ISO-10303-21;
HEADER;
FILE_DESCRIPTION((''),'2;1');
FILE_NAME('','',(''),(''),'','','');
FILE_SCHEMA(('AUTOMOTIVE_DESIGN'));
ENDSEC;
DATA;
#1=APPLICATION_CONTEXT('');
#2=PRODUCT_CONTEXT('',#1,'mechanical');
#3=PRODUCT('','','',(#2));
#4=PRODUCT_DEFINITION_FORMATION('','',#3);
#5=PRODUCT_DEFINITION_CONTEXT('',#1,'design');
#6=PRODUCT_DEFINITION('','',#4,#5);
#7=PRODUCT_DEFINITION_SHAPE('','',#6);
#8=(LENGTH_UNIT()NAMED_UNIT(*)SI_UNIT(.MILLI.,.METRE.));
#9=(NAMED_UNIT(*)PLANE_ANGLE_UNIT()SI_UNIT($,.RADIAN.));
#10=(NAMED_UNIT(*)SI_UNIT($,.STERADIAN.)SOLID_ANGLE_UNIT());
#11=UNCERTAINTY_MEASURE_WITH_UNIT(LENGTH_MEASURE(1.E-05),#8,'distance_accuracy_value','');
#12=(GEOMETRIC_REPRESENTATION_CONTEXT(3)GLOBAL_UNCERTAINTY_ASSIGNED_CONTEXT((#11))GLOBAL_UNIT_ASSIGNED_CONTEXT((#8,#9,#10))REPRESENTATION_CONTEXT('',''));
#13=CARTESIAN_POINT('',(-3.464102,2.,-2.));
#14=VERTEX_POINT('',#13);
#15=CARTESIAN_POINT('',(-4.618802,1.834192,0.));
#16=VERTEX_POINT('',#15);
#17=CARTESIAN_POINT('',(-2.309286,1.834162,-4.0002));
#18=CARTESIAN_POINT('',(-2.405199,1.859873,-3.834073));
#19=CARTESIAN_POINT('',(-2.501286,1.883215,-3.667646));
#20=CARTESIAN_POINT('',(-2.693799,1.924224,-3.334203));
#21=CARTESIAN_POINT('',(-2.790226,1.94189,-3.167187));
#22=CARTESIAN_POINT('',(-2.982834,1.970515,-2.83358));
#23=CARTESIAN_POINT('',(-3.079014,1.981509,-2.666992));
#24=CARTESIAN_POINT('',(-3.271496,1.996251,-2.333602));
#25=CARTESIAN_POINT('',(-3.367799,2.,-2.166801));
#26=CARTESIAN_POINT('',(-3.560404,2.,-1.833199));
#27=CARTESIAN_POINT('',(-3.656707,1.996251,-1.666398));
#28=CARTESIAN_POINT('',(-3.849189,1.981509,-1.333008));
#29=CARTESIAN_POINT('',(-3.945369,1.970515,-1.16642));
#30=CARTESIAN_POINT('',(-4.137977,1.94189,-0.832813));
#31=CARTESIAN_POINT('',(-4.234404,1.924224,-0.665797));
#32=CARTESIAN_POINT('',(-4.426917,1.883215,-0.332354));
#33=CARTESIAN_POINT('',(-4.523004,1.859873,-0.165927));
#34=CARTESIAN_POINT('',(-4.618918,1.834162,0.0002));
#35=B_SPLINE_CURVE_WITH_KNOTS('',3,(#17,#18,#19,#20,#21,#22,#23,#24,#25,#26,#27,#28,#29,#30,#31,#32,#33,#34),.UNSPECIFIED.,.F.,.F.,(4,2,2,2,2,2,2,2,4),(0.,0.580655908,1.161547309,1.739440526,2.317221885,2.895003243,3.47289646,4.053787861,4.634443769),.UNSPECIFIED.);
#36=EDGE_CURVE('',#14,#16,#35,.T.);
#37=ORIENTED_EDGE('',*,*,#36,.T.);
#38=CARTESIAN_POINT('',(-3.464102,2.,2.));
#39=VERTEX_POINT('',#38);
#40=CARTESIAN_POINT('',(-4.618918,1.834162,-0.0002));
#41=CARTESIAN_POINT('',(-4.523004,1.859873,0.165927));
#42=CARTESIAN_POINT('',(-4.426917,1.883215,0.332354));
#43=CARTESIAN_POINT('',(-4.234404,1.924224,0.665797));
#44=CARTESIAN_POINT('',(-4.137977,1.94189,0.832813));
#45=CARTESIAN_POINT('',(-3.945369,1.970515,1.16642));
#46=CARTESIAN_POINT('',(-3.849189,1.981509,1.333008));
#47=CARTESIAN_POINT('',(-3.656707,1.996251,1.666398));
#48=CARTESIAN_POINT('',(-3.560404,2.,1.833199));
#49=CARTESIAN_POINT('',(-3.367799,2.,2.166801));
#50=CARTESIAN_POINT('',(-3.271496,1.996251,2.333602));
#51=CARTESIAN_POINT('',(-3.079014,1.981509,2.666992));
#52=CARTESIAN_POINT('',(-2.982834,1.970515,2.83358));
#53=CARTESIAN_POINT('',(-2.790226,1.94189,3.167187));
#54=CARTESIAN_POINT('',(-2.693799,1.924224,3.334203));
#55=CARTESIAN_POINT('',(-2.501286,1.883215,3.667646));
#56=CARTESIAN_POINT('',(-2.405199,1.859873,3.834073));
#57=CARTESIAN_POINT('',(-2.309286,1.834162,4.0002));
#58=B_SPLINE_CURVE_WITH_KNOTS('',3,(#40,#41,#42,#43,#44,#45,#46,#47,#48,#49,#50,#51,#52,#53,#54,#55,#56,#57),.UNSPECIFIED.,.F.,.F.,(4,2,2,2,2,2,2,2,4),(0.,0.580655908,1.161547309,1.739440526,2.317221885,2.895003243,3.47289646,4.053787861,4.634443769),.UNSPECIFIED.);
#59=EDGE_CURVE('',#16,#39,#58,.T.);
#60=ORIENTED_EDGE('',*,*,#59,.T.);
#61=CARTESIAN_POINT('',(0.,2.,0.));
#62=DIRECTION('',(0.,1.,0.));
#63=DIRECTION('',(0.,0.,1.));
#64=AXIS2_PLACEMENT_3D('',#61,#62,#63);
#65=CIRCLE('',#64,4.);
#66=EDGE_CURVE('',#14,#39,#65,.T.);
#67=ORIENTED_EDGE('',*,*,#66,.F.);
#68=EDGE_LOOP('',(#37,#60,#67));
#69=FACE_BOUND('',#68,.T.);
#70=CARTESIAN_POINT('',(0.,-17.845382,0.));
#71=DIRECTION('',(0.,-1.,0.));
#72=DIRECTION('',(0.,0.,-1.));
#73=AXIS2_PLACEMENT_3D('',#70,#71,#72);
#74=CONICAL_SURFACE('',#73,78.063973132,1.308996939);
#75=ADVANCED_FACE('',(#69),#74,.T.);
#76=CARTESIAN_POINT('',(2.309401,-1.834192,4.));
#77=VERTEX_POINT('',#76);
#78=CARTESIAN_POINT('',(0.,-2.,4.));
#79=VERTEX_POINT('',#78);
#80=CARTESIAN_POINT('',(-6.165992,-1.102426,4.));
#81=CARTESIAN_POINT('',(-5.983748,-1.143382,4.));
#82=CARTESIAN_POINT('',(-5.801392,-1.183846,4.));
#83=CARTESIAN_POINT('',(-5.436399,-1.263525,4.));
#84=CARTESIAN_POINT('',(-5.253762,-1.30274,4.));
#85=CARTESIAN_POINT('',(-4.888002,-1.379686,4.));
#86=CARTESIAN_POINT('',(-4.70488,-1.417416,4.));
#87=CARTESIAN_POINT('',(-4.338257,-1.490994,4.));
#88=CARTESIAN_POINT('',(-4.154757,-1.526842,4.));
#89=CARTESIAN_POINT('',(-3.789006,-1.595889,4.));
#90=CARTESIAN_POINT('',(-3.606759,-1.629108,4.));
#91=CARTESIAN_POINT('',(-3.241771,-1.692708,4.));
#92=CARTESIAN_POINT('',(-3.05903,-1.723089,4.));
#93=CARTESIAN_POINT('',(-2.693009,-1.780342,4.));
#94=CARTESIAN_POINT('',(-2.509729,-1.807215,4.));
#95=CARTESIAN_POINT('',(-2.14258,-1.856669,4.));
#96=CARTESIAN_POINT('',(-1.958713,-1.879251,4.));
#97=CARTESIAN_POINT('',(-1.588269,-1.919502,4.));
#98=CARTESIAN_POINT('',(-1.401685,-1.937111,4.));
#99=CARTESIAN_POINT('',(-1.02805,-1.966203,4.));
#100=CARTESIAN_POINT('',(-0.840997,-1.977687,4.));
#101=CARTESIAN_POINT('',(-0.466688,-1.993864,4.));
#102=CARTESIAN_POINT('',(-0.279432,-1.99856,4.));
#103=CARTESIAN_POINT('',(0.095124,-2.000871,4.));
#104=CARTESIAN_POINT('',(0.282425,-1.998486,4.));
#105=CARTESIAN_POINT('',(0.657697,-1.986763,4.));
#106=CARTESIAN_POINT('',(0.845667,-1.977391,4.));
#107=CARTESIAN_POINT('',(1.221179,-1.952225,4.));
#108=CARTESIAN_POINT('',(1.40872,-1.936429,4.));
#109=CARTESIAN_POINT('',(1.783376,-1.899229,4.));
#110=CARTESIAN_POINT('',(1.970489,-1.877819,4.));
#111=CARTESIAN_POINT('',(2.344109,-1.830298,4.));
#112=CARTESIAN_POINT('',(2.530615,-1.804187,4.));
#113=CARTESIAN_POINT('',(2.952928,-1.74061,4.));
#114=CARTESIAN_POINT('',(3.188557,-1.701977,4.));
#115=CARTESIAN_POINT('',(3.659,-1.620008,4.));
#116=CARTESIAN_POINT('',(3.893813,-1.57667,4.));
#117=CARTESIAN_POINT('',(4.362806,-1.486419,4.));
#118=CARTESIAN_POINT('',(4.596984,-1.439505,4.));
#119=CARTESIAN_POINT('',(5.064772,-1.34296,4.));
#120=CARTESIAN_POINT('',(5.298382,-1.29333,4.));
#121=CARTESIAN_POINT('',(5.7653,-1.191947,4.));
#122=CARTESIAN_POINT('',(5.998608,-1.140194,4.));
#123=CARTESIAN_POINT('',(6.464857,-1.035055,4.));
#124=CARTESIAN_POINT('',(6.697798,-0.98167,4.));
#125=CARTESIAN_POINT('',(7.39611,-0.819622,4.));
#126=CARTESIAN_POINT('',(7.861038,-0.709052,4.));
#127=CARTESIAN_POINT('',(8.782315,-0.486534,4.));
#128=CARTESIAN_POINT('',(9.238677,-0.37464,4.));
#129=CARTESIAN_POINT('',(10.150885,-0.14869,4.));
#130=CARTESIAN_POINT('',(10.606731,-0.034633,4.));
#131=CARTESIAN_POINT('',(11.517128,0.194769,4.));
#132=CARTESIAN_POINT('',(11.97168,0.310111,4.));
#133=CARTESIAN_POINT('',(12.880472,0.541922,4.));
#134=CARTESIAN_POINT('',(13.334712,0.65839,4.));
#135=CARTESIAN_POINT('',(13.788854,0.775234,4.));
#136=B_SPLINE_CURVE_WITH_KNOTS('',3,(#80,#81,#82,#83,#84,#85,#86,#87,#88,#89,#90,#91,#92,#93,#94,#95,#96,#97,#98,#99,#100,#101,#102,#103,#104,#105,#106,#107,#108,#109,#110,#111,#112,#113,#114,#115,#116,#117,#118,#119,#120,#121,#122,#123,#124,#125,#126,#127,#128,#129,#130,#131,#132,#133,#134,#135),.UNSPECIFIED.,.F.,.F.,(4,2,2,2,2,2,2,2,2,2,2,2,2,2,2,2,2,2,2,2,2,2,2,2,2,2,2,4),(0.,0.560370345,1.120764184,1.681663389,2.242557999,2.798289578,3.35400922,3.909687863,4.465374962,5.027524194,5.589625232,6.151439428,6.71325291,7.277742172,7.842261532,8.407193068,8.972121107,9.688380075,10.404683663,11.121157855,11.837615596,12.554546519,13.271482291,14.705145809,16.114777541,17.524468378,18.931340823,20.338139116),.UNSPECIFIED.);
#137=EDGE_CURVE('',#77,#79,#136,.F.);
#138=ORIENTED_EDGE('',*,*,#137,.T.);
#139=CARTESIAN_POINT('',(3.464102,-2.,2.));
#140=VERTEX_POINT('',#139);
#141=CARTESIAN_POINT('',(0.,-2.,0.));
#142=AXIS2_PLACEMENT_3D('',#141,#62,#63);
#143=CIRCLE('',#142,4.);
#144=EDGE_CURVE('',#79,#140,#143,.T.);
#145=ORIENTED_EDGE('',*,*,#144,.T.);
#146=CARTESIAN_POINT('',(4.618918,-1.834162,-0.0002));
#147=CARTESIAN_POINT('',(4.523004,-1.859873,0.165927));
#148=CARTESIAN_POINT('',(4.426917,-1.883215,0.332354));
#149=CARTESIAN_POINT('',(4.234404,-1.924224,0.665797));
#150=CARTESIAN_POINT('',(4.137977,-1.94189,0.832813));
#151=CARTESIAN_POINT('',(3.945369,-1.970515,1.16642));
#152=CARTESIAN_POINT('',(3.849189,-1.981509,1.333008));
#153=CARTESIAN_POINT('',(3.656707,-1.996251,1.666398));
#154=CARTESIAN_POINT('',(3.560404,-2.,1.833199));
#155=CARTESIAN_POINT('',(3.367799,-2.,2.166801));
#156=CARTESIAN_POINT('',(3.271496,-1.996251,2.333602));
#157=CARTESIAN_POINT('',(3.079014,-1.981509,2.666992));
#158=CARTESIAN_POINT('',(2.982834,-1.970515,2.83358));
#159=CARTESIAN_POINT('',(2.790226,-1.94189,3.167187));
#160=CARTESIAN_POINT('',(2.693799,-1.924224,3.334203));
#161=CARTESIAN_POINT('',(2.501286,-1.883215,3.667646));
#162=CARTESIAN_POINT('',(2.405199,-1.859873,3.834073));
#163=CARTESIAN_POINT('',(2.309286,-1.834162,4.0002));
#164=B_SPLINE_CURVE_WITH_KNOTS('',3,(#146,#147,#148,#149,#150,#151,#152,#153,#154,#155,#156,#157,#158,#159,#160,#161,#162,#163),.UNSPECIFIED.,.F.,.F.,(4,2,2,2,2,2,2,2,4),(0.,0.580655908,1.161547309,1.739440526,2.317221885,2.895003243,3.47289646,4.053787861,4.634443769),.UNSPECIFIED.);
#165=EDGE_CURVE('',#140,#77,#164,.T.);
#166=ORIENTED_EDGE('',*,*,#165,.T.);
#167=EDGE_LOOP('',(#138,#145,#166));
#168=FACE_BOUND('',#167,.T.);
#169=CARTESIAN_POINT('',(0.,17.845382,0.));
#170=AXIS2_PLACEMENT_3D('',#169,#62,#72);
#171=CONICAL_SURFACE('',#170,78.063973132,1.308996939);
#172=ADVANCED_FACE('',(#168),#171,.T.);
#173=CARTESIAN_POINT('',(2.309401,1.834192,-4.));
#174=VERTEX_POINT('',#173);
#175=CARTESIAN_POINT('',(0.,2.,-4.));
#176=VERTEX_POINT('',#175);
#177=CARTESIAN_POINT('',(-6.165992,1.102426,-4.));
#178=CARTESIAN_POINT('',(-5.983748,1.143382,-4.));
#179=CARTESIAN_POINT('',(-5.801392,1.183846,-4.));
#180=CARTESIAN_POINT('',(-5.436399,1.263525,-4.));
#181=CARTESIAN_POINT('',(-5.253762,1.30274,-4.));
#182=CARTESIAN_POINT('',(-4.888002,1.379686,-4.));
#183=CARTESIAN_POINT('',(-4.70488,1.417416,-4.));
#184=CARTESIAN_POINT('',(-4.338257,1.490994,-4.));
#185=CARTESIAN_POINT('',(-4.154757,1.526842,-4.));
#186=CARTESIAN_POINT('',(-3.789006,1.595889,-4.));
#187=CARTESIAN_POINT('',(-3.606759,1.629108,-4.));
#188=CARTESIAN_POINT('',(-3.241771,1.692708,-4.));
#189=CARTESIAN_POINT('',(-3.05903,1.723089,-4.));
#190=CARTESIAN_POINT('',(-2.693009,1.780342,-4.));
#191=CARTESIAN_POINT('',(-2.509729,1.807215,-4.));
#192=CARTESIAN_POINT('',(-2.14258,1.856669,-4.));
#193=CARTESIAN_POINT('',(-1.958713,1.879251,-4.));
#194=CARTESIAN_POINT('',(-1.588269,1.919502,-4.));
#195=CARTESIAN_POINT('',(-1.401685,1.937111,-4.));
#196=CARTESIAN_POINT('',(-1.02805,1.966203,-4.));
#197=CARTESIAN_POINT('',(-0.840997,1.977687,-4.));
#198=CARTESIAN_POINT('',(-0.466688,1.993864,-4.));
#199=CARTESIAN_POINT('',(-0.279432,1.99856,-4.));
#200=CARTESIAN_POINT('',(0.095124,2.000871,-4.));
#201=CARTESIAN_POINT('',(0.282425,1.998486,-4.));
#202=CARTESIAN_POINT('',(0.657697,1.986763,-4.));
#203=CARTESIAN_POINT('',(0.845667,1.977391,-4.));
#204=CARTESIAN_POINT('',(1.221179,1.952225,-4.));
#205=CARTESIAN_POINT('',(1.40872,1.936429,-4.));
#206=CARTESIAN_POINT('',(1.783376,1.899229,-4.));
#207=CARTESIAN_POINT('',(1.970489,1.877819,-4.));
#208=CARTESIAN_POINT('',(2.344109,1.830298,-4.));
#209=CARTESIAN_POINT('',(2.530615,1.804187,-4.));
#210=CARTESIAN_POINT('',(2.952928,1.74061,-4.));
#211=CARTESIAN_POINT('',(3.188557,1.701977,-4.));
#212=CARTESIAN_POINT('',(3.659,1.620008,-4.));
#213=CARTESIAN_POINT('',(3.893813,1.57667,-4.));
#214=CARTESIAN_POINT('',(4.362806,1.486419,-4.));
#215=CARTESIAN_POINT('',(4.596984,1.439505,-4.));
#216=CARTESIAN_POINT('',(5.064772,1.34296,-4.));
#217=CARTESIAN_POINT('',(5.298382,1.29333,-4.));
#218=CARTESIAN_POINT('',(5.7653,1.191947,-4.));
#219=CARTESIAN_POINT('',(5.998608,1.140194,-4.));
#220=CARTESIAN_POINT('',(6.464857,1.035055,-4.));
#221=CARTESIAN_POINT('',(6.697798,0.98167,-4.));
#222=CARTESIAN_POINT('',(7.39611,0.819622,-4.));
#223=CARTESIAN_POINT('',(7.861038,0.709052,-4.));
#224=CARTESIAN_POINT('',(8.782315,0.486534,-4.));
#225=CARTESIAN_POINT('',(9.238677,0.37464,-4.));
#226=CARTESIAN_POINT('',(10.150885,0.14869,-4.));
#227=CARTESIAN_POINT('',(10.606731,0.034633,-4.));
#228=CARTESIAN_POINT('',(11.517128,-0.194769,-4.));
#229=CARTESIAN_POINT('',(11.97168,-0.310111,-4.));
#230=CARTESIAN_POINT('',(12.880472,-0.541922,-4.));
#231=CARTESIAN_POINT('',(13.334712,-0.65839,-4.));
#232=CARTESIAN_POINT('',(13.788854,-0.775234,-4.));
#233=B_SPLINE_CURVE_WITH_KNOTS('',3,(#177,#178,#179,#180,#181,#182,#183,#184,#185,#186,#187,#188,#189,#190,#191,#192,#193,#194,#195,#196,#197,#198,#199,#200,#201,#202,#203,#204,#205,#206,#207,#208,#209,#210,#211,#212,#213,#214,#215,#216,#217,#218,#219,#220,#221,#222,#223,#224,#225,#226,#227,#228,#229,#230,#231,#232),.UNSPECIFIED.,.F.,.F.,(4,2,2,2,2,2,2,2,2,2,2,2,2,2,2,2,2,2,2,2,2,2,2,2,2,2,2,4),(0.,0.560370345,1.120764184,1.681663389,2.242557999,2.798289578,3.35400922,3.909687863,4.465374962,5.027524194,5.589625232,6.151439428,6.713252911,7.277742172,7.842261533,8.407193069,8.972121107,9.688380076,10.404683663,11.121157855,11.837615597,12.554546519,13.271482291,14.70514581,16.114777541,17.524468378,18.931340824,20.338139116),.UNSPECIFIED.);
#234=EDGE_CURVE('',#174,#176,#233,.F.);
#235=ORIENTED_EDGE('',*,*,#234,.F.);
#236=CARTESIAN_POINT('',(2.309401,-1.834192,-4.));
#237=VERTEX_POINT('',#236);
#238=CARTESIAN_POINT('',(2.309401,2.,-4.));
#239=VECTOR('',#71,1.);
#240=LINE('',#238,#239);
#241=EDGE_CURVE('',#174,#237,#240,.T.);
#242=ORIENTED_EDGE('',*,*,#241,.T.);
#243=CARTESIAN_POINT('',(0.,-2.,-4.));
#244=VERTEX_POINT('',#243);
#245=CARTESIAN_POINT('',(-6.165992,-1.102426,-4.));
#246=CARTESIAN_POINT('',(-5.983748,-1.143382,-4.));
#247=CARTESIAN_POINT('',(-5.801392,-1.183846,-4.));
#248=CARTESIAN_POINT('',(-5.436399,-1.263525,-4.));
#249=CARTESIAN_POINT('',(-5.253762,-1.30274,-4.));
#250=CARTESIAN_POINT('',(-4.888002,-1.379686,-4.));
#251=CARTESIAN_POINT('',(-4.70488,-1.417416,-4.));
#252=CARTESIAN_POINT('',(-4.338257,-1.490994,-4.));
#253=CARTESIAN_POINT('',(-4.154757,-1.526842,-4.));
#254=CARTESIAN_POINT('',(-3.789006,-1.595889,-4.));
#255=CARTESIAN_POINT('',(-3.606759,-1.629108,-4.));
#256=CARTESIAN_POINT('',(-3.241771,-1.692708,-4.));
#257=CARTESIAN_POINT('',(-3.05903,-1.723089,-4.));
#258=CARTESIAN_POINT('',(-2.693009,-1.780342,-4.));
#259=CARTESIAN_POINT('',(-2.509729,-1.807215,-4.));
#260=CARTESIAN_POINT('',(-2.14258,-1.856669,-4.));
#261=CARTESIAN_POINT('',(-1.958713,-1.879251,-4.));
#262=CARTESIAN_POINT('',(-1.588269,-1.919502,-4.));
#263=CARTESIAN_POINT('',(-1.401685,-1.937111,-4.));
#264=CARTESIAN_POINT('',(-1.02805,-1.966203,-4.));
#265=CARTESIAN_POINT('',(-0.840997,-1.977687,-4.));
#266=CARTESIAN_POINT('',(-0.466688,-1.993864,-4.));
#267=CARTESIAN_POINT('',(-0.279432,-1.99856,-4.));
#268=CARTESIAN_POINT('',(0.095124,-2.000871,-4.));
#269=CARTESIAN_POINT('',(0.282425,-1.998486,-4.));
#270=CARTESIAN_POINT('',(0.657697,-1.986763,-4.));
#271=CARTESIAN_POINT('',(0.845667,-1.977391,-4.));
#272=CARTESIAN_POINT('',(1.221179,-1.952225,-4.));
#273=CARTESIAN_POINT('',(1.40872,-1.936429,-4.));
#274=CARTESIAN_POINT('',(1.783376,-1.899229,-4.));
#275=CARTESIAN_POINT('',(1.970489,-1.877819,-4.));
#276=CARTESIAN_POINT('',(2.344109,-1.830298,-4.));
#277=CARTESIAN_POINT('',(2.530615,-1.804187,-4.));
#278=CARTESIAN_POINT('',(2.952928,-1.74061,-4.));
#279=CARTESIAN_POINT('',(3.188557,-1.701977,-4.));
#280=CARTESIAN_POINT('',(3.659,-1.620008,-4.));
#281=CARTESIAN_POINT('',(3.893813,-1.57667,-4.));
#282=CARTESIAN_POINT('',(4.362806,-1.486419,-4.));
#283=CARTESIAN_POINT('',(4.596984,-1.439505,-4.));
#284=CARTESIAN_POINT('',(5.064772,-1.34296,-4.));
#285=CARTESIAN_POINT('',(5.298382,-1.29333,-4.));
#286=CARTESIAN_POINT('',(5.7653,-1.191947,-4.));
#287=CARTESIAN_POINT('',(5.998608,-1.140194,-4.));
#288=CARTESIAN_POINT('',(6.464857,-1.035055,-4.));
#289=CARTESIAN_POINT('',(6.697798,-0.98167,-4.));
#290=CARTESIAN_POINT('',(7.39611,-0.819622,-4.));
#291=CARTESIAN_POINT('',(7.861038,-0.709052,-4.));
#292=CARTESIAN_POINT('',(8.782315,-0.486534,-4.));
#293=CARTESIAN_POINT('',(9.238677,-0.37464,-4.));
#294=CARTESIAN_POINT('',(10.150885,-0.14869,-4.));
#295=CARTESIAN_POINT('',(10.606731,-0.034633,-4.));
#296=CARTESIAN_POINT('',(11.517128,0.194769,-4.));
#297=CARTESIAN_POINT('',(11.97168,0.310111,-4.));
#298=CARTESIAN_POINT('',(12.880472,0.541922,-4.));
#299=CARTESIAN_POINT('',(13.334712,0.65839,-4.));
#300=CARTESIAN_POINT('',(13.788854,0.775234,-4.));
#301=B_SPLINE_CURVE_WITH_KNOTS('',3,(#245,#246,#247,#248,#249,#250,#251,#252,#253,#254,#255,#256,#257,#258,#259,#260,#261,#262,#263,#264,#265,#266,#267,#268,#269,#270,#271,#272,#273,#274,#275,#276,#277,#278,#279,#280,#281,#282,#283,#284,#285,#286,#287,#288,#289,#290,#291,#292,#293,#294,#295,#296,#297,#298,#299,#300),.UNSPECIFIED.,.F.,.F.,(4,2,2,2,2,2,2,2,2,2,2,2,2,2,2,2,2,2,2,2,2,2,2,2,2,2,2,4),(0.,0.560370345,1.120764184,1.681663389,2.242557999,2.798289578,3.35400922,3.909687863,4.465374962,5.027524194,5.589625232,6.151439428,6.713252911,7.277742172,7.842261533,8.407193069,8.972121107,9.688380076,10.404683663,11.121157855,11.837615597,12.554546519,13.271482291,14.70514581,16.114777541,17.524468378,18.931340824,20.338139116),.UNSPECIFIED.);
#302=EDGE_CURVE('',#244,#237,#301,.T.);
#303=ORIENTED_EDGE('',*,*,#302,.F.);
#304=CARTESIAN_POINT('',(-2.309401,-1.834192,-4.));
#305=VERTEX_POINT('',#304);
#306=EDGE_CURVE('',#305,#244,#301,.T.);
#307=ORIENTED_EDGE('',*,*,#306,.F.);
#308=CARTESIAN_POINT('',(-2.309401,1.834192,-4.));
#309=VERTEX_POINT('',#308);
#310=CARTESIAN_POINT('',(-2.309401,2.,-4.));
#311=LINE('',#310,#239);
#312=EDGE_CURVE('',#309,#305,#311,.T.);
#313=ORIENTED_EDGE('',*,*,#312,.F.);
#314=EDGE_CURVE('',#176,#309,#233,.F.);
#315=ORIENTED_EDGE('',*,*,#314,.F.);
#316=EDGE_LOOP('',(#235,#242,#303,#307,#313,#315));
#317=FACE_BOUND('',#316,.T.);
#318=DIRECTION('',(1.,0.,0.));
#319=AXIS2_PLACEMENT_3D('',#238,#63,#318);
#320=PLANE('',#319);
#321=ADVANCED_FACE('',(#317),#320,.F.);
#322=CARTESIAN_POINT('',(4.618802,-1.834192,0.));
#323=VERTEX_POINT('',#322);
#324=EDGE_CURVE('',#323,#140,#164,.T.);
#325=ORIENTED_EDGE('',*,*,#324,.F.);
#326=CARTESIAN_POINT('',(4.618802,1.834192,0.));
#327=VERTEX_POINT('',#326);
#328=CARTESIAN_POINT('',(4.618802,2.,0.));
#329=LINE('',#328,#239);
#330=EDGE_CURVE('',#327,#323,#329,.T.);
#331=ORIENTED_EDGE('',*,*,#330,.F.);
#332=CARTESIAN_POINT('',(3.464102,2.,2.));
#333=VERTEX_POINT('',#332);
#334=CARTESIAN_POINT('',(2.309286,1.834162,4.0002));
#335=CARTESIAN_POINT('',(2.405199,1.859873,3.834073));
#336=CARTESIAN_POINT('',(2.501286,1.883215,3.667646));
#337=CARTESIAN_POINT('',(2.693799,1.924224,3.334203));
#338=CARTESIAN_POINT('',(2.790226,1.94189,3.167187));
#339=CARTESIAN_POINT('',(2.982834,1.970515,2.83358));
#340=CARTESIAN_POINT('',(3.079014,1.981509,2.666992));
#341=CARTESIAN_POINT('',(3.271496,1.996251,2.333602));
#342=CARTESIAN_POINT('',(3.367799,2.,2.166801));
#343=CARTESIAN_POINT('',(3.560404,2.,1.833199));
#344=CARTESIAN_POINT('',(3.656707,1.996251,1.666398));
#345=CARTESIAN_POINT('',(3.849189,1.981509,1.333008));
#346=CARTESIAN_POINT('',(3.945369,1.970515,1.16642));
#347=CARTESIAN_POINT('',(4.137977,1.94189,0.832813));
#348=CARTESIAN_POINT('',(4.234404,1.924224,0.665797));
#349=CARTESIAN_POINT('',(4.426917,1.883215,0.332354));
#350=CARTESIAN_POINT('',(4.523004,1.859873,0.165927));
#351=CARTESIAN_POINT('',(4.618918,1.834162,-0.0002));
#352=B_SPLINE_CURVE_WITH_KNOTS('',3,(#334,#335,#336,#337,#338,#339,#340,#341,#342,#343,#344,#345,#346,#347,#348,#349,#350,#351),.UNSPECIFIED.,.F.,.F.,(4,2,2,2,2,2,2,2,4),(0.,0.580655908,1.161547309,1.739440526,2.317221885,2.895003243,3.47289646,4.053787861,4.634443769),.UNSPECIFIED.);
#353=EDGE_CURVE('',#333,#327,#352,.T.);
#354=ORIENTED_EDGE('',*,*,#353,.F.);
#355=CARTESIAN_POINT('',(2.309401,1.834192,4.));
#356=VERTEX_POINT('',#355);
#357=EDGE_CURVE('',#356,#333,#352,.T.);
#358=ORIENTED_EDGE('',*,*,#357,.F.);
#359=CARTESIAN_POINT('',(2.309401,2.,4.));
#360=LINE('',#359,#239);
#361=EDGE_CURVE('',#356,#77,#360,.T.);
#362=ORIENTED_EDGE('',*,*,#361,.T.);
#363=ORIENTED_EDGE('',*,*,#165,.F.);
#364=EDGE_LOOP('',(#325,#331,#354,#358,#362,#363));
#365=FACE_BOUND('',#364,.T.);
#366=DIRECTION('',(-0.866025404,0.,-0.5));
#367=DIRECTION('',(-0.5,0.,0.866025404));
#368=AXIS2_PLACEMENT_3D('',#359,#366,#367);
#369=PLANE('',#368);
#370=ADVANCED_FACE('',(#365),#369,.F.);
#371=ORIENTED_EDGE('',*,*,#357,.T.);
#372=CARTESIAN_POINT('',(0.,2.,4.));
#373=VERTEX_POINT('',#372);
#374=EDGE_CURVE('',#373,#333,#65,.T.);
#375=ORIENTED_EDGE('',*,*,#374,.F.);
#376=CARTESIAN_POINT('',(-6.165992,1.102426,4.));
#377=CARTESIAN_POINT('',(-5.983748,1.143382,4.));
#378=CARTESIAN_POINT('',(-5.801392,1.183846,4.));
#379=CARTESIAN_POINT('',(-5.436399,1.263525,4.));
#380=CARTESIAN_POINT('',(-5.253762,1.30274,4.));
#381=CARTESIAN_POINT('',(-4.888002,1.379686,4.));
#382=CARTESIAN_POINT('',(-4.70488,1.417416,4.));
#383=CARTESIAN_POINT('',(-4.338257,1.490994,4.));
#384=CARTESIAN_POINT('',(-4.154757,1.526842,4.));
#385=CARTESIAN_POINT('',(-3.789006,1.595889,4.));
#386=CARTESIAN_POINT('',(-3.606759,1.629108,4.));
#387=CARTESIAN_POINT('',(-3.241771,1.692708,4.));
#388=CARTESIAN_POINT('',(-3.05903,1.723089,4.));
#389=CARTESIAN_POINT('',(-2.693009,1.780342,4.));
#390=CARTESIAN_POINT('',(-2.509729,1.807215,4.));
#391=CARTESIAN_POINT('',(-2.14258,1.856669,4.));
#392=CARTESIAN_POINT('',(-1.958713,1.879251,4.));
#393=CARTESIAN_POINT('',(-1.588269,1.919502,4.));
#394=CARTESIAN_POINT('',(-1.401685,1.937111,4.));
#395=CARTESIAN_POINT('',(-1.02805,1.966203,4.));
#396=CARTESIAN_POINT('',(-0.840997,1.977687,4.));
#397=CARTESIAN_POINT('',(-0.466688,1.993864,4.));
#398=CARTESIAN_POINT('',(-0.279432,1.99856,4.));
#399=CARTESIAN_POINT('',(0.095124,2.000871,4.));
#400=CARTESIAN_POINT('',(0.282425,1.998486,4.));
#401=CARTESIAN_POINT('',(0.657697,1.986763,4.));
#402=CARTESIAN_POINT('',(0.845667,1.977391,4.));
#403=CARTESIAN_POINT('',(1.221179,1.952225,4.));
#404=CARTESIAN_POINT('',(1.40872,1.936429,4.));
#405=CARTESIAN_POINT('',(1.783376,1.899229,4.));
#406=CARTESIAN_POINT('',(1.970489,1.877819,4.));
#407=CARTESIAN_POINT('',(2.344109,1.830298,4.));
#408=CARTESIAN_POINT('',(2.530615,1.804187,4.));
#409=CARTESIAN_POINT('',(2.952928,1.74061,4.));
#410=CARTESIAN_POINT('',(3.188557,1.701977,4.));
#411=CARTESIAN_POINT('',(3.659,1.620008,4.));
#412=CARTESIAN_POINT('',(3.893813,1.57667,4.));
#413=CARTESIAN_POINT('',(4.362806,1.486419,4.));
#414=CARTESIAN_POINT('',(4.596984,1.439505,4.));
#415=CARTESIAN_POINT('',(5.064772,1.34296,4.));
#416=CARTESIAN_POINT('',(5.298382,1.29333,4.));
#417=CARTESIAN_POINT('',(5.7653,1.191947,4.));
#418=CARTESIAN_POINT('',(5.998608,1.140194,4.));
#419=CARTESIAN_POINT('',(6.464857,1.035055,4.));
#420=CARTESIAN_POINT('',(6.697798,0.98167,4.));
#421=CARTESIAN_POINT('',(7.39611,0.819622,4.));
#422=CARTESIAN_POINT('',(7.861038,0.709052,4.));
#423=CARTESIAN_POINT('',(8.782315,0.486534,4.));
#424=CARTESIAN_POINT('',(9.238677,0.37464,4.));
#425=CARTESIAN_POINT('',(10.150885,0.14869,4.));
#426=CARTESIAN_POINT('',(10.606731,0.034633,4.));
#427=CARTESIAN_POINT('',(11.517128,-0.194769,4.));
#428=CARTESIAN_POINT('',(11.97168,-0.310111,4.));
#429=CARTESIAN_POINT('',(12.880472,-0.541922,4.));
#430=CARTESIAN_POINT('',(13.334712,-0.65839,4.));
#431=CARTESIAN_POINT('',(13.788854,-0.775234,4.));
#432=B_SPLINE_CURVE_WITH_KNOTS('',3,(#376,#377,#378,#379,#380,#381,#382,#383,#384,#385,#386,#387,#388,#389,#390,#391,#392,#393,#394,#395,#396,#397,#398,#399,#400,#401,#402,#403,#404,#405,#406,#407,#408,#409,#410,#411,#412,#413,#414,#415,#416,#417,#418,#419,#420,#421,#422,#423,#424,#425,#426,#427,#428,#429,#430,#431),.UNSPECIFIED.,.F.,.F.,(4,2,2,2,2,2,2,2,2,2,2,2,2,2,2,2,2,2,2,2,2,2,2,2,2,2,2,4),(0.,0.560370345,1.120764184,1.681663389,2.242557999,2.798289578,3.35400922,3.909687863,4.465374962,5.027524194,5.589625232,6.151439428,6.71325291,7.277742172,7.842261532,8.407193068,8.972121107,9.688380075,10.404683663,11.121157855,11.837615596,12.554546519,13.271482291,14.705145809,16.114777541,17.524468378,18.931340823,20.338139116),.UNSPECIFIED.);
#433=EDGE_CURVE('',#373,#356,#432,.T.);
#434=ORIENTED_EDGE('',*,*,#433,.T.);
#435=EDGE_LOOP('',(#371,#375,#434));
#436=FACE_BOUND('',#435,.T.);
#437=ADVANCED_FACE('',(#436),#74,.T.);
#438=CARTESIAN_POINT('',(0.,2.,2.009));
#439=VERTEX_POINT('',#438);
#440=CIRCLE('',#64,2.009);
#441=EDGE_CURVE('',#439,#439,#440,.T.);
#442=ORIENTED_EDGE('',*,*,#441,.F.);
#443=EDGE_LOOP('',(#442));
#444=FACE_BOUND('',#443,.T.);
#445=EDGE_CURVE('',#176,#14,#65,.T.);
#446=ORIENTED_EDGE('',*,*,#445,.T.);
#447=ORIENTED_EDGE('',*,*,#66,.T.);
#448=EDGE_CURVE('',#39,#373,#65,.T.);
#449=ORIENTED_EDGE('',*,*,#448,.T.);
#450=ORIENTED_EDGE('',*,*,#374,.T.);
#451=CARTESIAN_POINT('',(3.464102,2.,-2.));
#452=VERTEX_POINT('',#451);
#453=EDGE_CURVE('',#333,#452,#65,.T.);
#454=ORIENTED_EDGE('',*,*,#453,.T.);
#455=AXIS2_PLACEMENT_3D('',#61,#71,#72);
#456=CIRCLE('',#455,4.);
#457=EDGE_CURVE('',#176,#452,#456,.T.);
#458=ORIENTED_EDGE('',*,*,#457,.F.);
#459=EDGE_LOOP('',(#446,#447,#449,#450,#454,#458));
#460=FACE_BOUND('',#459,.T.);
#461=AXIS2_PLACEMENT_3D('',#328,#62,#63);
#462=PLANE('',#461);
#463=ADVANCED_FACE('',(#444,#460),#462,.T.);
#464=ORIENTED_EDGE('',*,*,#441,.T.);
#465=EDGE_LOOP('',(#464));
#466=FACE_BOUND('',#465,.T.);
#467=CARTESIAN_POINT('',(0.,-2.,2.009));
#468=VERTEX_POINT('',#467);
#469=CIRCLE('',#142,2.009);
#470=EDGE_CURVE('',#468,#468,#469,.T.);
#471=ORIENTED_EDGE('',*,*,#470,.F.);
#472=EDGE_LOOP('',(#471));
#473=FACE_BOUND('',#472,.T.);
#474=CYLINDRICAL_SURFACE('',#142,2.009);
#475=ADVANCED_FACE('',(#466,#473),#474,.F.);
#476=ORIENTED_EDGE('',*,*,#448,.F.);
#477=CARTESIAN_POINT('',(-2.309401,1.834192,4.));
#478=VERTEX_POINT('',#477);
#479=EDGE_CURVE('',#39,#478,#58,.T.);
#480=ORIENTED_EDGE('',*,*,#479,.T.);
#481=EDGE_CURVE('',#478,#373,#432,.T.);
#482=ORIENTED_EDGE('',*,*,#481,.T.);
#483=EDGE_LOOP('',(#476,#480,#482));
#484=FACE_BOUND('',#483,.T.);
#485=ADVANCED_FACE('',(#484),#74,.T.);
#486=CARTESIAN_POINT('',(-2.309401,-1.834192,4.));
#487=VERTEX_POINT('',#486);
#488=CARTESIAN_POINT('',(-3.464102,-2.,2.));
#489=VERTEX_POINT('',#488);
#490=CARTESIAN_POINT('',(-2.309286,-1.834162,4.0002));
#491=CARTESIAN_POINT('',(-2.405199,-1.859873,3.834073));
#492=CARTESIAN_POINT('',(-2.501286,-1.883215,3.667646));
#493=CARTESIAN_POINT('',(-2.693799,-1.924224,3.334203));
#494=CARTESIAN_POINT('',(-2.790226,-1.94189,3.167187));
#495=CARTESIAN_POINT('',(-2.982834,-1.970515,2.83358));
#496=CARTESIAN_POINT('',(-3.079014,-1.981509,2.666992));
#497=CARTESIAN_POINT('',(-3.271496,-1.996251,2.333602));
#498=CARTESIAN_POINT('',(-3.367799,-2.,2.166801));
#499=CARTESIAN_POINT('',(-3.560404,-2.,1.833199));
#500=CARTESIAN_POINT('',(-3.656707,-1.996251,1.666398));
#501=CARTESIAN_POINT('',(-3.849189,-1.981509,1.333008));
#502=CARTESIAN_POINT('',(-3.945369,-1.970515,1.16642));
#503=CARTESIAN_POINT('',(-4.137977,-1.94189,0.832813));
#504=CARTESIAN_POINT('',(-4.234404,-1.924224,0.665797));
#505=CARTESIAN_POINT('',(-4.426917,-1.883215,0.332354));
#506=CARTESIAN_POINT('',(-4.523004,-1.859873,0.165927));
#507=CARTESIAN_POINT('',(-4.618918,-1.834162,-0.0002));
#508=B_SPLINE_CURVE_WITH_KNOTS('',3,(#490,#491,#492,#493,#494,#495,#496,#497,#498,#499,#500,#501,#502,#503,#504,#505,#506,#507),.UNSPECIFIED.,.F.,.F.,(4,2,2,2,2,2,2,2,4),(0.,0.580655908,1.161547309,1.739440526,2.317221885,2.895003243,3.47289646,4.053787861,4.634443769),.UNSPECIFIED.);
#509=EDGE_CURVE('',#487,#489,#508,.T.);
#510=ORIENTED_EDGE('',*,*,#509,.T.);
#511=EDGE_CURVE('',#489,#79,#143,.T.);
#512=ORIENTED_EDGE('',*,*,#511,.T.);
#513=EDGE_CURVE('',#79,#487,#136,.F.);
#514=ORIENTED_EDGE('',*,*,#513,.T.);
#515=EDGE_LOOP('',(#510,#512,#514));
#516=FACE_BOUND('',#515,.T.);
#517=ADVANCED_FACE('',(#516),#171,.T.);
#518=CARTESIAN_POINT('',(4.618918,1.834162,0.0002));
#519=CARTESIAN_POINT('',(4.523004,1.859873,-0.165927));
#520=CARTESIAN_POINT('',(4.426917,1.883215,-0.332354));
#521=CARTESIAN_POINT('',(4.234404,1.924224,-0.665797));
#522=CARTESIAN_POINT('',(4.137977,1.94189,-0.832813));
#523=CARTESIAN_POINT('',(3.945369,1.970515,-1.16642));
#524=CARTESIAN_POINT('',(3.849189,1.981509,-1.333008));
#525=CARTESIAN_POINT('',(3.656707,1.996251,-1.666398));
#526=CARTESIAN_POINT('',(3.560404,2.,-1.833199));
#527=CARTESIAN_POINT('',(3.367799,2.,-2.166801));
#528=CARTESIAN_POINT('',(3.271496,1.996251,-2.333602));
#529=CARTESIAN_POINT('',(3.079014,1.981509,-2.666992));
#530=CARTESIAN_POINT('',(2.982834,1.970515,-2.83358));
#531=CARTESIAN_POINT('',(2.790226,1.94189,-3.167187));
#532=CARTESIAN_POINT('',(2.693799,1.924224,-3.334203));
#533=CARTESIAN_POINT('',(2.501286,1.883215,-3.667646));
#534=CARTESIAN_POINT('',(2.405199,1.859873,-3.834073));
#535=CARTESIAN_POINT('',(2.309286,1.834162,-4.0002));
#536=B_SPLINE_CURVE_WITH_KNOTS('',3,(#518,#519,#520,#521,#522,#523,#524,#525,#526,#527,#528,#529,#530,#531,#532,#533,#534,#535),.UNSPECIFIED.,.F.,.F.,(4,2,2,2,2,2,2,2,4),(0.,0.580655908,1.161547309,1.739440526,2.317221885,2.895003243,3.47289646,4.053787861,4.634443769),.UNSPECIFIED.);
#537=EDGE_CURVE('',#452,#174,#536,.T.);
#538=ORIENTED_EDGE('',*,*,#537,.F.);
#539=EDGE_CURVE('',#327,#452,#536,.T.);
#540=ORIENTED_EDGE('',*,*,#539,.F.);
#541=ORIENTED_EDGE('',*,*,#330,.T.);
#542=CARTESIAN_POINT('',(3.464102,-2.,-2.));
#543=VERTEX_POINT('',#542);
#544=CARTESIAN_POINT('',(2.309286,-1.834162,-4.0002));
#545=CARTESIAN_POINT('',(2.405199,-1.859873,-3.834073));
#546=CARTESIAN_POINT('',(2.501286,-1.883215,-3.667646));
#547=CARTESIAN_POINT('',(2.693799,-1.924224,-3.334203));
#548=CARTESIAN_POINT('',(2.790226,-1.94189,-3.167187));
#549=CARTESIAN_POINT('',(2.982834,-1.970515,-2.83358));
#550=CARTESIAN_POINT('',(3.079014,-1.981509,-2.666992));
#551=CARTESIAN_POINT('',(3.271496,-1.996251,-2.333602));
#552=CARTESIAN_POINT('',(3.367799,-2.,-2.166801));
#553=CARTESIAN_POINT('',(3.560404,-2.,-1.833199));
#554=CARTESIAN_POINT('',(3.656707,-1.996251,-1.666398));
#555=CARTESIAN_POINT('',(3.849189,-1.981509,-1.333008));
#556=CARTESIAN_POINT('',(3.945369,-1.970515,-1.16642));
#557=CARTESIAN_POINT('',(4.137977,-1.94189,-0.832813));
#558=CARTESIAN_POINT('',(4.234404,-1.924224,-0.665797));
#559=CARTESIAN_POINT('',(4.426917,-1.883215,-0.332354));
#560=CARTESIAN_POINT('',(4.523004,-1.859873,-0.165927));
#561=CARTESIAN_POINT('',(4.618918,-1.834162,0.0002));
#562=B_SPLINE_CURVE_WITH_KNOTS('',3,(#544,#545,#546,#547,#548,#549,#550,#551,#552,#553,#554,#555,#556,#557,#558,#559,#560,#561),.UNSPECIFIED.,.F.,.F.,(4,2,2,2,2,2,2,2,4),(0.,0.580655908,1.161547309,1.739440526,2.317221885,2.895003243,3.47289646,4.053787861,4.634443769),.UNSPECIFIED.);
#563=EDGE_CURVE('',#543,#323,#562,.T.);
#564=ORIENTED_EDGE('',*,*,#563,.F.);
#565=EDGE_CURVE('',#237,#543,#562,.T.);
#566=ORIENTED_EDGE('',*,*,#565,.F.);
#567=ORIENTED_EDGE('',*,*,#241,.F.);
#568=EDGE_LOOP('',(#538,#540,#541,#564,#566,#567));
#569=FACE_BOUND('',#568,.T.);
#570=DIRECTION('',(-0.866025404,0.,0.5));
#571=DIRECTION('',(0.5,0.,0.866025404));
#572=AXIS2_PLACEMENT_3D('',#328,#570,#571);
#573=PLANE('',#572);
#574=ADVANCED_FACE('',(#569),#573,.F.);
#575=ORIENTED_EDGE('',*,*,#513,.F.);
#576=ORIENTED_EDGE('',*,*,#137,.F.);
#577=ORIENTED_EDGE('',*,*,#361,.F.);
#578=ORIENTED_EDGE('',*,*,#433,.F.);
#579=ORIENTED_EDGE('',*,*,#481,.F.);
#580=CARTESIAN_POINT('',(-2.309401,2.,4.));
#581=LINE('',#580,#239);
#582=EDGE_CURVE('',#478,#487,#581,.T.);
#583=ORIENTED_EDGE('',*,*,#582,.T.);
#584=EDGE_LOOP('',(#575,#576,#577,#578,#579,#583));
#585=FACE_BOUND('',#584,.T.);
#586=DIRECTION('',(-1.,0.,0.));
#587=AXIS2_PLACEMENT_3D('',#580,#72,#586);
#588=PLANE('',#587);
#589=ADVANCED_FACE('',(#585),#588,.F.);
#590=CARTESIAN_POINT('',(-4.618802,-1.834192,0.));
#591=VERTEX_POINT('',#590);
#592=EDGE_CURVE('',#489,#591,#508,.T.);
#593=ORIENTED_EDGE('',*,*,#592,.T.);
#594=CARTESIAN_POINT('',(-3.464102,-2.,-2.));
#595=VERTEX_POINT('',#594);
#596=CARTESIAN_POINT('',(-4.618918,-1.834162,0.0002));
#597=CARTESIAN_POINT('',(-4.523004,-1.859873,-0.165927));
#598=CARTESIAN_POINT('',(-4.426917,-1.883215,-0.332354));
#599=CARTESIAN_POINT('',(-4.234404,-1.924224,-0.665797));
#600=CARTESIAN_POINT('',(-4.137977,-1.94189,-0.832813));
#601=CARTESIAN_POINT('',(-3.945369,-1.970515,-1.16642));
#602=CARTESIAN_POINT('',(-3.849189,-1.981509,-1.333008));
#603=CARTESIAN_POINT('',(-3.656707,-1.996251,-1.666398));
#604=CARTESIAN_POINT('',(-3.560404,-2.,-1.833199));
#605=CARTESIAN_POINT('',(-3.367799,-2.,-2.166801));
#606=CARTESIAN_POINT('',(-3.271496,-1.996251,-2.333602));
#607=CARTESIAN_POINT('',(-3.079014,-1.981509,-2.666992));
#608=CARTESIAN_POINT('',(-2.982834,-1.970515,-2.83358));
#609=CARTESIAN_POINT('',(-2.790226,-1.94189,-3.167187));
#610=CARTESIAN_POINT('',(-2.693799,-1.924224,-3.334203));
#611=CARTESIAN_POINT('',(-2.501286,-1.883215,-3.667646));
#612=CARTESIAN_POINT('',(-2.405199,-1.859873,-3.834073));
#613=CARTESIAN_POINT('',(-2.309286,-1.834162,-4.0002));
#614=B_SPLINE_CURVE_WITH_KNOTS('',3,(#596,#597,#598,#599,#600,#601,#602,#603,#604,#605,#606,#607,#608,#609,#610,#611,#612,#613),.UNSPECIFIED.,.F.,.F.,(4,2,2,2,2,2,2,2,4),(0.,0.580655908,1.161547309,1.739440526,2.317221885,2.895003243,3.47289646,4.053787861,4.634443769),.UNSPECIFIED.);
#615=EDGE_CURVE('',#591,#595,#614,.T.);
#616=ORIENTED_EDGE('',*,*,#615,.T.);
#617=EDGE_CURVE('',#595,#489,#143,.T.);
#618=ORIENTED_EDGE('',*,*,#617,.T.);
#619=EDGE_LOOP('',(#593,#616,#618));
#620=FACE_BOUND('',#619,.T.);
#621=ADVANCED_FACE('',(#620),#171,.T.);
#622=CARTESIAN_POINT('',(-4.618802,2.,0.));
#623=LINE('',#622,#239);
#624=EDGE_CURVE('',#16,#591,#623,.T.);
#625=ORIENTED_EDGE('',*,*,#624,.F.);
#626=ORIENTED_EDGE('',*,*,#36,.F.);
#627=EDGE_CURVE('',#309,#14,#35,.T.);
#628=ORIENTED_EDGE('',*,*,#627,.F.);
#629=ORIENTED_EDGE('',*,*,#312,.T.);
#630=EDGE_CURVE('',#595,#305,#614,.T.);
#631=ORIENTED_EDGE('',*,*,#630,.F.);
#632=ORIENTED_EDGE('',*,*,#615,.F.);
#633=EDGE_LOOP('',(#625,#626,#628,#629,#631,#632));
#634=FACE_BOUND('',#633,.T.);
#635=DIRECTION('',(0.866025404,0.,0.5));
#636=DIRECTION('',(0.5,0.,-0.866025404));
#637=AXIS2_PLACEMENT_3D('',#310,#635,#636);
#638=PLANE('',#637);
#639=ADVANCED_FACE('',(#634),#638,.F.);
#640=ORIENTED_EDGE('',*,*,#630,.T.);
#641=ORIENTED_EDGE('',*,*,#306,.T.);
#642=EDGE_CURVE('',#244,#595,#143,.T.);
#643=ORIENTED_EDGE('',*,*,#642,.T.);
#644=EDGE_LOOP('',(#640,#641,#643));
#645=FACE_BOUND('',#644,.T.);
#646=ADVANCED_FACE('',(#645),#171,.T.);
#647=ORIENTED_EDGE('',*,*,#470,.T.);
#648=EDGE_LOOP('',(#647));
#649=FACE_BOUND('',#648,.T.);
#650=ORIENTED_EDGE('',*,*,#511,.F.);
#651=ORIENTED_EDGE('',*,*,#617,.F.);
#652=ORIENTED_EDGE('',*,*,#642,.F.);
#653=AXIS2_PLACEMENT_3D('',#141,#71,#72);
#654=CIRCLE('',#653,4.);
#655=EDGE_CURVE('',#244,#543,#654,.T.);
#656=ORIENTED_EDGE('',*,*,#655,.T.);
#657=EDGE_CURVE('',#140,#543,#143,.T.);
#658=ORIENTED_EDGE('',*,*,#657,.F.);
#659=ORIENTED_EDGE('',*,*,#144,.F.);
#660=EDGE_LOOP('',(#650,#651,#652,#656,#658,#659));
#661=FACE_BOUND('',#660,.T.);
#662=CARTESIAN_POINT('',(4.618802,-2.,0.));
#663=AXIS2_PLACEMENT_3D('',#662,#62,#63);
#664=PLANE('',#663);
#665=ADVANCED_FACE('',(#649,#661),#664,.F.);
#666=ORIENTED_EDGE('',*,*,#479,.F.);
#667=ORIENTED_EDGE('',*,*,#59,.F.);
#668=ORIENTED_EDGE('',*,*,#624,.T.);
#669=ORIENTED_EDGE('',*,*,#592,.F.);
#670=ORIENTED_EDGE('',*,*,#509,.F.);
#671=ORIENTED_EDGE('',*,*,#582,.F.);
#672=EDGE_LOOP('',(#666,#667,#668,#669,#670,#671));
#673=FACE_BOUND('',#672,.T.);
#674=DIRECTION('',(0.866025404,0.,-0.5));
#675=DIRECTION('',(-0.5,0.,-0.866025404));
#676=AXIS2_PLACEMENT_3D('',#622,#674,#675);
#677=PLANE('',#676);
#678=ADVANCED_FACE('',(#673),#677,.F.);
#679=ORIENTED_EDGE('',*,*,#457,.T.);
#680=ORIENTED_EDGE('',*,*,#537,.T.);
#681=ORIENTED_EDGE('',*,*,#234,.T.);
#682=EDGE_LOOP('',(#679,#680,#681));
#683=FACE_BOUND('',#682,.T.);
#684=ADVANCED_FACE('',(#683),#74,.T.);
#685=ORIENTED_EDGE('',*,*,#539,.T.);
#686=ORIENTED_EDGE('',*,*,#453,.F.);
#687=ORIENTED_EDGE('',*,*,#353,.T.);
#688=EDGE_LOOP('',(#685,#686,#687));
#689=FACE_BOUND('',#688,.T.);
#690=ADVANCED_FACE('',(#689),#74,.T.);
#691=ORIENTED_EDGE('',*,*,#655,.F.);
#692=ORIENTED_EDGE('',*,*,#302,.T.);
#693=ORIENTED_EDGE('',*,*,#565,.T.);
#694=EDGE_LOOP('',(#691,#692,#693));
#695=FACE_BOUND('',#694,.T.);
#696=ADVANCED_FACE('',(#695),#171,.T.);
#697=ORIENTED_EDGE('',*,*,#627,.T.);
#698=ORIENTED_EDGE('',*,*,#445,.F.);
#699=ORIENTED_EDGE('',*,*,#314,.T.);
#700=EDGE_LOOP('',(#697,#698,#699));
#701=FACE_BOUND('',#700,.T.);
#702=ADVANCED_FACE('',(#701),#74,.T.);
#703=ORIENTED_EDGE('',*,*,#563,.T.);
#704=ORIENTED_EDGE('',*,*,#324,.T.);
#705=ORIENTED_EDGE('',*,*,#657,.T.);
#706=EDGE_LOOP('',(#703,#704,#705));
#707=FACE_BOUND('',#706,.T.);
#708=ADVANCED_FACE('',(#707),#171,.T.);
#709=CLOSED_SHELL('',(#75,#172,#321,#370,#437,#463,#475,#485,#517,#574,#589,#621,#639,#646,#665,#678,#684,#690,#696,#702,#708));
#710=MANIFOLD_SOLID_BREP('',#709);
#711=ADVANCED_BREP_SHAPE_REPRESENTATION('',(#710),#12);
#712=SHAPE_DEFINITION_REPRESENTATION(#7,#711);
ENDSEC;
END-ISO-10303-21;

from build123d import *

# Parameters (mm, degrees)
EXTRUDE1_DEPTH = 2
SKETCH3_R      = 2.009
EXTRUDE2_DEPTH = 8.302967433


with BuildPart() as part:
    # Sketch1 → Extrude1 (new, symmetric)
    with BuildSketch(Plane(origin=(0, 0, 0), x_dir=(1, 0, 0), z_dir=(0, 1, 0))):
        Polygon((4.618802154, 0), (2.309401077, 4), (-2.309401077, 4), (-4.618802154, 0), (-2.309401077, -4), (2.309401077, -4), align=None)
    extrude(amount=EXTRUDE1_DEPTH, both=True)

    # Sketch2 → Cut-Revolve1 (revolve, cut)
    with BuildSketch(Plane(origin=(0, 0, 0), x_dir=(0, 0, -1), z_dir=(1, 0, 0))):
        Polygon((-4, 2), (-78.063973132, -17.845381789), (-78.063973132, 2), align=None)
    cut_revolve1 = revolve(axis=Axis((0, 0, 0), (0, 1, 0)), mode=Mode.SUBTRACT)

    # Mirror1: Cut-Revolve1 across plane
    add(cut_revolve1.mirror(Plane.ZX), mode=Mode.SUBTRACT)

    # Sketch3 → Extrude2 (cut, through all)
    with BuildSketch(Plane(origin=(0, 2, 0), x_dir=(1, 0, 0), z_dir=(0, 1, 0))):
        with Locations(Location((0, 0, 0), (0, 0, 270))):
            Circle(SKETCH3_R)
    extrude(amount=-EXTRUDE2_DEPTH, mode=Mode.SUBTRACT)


solid = part.part
